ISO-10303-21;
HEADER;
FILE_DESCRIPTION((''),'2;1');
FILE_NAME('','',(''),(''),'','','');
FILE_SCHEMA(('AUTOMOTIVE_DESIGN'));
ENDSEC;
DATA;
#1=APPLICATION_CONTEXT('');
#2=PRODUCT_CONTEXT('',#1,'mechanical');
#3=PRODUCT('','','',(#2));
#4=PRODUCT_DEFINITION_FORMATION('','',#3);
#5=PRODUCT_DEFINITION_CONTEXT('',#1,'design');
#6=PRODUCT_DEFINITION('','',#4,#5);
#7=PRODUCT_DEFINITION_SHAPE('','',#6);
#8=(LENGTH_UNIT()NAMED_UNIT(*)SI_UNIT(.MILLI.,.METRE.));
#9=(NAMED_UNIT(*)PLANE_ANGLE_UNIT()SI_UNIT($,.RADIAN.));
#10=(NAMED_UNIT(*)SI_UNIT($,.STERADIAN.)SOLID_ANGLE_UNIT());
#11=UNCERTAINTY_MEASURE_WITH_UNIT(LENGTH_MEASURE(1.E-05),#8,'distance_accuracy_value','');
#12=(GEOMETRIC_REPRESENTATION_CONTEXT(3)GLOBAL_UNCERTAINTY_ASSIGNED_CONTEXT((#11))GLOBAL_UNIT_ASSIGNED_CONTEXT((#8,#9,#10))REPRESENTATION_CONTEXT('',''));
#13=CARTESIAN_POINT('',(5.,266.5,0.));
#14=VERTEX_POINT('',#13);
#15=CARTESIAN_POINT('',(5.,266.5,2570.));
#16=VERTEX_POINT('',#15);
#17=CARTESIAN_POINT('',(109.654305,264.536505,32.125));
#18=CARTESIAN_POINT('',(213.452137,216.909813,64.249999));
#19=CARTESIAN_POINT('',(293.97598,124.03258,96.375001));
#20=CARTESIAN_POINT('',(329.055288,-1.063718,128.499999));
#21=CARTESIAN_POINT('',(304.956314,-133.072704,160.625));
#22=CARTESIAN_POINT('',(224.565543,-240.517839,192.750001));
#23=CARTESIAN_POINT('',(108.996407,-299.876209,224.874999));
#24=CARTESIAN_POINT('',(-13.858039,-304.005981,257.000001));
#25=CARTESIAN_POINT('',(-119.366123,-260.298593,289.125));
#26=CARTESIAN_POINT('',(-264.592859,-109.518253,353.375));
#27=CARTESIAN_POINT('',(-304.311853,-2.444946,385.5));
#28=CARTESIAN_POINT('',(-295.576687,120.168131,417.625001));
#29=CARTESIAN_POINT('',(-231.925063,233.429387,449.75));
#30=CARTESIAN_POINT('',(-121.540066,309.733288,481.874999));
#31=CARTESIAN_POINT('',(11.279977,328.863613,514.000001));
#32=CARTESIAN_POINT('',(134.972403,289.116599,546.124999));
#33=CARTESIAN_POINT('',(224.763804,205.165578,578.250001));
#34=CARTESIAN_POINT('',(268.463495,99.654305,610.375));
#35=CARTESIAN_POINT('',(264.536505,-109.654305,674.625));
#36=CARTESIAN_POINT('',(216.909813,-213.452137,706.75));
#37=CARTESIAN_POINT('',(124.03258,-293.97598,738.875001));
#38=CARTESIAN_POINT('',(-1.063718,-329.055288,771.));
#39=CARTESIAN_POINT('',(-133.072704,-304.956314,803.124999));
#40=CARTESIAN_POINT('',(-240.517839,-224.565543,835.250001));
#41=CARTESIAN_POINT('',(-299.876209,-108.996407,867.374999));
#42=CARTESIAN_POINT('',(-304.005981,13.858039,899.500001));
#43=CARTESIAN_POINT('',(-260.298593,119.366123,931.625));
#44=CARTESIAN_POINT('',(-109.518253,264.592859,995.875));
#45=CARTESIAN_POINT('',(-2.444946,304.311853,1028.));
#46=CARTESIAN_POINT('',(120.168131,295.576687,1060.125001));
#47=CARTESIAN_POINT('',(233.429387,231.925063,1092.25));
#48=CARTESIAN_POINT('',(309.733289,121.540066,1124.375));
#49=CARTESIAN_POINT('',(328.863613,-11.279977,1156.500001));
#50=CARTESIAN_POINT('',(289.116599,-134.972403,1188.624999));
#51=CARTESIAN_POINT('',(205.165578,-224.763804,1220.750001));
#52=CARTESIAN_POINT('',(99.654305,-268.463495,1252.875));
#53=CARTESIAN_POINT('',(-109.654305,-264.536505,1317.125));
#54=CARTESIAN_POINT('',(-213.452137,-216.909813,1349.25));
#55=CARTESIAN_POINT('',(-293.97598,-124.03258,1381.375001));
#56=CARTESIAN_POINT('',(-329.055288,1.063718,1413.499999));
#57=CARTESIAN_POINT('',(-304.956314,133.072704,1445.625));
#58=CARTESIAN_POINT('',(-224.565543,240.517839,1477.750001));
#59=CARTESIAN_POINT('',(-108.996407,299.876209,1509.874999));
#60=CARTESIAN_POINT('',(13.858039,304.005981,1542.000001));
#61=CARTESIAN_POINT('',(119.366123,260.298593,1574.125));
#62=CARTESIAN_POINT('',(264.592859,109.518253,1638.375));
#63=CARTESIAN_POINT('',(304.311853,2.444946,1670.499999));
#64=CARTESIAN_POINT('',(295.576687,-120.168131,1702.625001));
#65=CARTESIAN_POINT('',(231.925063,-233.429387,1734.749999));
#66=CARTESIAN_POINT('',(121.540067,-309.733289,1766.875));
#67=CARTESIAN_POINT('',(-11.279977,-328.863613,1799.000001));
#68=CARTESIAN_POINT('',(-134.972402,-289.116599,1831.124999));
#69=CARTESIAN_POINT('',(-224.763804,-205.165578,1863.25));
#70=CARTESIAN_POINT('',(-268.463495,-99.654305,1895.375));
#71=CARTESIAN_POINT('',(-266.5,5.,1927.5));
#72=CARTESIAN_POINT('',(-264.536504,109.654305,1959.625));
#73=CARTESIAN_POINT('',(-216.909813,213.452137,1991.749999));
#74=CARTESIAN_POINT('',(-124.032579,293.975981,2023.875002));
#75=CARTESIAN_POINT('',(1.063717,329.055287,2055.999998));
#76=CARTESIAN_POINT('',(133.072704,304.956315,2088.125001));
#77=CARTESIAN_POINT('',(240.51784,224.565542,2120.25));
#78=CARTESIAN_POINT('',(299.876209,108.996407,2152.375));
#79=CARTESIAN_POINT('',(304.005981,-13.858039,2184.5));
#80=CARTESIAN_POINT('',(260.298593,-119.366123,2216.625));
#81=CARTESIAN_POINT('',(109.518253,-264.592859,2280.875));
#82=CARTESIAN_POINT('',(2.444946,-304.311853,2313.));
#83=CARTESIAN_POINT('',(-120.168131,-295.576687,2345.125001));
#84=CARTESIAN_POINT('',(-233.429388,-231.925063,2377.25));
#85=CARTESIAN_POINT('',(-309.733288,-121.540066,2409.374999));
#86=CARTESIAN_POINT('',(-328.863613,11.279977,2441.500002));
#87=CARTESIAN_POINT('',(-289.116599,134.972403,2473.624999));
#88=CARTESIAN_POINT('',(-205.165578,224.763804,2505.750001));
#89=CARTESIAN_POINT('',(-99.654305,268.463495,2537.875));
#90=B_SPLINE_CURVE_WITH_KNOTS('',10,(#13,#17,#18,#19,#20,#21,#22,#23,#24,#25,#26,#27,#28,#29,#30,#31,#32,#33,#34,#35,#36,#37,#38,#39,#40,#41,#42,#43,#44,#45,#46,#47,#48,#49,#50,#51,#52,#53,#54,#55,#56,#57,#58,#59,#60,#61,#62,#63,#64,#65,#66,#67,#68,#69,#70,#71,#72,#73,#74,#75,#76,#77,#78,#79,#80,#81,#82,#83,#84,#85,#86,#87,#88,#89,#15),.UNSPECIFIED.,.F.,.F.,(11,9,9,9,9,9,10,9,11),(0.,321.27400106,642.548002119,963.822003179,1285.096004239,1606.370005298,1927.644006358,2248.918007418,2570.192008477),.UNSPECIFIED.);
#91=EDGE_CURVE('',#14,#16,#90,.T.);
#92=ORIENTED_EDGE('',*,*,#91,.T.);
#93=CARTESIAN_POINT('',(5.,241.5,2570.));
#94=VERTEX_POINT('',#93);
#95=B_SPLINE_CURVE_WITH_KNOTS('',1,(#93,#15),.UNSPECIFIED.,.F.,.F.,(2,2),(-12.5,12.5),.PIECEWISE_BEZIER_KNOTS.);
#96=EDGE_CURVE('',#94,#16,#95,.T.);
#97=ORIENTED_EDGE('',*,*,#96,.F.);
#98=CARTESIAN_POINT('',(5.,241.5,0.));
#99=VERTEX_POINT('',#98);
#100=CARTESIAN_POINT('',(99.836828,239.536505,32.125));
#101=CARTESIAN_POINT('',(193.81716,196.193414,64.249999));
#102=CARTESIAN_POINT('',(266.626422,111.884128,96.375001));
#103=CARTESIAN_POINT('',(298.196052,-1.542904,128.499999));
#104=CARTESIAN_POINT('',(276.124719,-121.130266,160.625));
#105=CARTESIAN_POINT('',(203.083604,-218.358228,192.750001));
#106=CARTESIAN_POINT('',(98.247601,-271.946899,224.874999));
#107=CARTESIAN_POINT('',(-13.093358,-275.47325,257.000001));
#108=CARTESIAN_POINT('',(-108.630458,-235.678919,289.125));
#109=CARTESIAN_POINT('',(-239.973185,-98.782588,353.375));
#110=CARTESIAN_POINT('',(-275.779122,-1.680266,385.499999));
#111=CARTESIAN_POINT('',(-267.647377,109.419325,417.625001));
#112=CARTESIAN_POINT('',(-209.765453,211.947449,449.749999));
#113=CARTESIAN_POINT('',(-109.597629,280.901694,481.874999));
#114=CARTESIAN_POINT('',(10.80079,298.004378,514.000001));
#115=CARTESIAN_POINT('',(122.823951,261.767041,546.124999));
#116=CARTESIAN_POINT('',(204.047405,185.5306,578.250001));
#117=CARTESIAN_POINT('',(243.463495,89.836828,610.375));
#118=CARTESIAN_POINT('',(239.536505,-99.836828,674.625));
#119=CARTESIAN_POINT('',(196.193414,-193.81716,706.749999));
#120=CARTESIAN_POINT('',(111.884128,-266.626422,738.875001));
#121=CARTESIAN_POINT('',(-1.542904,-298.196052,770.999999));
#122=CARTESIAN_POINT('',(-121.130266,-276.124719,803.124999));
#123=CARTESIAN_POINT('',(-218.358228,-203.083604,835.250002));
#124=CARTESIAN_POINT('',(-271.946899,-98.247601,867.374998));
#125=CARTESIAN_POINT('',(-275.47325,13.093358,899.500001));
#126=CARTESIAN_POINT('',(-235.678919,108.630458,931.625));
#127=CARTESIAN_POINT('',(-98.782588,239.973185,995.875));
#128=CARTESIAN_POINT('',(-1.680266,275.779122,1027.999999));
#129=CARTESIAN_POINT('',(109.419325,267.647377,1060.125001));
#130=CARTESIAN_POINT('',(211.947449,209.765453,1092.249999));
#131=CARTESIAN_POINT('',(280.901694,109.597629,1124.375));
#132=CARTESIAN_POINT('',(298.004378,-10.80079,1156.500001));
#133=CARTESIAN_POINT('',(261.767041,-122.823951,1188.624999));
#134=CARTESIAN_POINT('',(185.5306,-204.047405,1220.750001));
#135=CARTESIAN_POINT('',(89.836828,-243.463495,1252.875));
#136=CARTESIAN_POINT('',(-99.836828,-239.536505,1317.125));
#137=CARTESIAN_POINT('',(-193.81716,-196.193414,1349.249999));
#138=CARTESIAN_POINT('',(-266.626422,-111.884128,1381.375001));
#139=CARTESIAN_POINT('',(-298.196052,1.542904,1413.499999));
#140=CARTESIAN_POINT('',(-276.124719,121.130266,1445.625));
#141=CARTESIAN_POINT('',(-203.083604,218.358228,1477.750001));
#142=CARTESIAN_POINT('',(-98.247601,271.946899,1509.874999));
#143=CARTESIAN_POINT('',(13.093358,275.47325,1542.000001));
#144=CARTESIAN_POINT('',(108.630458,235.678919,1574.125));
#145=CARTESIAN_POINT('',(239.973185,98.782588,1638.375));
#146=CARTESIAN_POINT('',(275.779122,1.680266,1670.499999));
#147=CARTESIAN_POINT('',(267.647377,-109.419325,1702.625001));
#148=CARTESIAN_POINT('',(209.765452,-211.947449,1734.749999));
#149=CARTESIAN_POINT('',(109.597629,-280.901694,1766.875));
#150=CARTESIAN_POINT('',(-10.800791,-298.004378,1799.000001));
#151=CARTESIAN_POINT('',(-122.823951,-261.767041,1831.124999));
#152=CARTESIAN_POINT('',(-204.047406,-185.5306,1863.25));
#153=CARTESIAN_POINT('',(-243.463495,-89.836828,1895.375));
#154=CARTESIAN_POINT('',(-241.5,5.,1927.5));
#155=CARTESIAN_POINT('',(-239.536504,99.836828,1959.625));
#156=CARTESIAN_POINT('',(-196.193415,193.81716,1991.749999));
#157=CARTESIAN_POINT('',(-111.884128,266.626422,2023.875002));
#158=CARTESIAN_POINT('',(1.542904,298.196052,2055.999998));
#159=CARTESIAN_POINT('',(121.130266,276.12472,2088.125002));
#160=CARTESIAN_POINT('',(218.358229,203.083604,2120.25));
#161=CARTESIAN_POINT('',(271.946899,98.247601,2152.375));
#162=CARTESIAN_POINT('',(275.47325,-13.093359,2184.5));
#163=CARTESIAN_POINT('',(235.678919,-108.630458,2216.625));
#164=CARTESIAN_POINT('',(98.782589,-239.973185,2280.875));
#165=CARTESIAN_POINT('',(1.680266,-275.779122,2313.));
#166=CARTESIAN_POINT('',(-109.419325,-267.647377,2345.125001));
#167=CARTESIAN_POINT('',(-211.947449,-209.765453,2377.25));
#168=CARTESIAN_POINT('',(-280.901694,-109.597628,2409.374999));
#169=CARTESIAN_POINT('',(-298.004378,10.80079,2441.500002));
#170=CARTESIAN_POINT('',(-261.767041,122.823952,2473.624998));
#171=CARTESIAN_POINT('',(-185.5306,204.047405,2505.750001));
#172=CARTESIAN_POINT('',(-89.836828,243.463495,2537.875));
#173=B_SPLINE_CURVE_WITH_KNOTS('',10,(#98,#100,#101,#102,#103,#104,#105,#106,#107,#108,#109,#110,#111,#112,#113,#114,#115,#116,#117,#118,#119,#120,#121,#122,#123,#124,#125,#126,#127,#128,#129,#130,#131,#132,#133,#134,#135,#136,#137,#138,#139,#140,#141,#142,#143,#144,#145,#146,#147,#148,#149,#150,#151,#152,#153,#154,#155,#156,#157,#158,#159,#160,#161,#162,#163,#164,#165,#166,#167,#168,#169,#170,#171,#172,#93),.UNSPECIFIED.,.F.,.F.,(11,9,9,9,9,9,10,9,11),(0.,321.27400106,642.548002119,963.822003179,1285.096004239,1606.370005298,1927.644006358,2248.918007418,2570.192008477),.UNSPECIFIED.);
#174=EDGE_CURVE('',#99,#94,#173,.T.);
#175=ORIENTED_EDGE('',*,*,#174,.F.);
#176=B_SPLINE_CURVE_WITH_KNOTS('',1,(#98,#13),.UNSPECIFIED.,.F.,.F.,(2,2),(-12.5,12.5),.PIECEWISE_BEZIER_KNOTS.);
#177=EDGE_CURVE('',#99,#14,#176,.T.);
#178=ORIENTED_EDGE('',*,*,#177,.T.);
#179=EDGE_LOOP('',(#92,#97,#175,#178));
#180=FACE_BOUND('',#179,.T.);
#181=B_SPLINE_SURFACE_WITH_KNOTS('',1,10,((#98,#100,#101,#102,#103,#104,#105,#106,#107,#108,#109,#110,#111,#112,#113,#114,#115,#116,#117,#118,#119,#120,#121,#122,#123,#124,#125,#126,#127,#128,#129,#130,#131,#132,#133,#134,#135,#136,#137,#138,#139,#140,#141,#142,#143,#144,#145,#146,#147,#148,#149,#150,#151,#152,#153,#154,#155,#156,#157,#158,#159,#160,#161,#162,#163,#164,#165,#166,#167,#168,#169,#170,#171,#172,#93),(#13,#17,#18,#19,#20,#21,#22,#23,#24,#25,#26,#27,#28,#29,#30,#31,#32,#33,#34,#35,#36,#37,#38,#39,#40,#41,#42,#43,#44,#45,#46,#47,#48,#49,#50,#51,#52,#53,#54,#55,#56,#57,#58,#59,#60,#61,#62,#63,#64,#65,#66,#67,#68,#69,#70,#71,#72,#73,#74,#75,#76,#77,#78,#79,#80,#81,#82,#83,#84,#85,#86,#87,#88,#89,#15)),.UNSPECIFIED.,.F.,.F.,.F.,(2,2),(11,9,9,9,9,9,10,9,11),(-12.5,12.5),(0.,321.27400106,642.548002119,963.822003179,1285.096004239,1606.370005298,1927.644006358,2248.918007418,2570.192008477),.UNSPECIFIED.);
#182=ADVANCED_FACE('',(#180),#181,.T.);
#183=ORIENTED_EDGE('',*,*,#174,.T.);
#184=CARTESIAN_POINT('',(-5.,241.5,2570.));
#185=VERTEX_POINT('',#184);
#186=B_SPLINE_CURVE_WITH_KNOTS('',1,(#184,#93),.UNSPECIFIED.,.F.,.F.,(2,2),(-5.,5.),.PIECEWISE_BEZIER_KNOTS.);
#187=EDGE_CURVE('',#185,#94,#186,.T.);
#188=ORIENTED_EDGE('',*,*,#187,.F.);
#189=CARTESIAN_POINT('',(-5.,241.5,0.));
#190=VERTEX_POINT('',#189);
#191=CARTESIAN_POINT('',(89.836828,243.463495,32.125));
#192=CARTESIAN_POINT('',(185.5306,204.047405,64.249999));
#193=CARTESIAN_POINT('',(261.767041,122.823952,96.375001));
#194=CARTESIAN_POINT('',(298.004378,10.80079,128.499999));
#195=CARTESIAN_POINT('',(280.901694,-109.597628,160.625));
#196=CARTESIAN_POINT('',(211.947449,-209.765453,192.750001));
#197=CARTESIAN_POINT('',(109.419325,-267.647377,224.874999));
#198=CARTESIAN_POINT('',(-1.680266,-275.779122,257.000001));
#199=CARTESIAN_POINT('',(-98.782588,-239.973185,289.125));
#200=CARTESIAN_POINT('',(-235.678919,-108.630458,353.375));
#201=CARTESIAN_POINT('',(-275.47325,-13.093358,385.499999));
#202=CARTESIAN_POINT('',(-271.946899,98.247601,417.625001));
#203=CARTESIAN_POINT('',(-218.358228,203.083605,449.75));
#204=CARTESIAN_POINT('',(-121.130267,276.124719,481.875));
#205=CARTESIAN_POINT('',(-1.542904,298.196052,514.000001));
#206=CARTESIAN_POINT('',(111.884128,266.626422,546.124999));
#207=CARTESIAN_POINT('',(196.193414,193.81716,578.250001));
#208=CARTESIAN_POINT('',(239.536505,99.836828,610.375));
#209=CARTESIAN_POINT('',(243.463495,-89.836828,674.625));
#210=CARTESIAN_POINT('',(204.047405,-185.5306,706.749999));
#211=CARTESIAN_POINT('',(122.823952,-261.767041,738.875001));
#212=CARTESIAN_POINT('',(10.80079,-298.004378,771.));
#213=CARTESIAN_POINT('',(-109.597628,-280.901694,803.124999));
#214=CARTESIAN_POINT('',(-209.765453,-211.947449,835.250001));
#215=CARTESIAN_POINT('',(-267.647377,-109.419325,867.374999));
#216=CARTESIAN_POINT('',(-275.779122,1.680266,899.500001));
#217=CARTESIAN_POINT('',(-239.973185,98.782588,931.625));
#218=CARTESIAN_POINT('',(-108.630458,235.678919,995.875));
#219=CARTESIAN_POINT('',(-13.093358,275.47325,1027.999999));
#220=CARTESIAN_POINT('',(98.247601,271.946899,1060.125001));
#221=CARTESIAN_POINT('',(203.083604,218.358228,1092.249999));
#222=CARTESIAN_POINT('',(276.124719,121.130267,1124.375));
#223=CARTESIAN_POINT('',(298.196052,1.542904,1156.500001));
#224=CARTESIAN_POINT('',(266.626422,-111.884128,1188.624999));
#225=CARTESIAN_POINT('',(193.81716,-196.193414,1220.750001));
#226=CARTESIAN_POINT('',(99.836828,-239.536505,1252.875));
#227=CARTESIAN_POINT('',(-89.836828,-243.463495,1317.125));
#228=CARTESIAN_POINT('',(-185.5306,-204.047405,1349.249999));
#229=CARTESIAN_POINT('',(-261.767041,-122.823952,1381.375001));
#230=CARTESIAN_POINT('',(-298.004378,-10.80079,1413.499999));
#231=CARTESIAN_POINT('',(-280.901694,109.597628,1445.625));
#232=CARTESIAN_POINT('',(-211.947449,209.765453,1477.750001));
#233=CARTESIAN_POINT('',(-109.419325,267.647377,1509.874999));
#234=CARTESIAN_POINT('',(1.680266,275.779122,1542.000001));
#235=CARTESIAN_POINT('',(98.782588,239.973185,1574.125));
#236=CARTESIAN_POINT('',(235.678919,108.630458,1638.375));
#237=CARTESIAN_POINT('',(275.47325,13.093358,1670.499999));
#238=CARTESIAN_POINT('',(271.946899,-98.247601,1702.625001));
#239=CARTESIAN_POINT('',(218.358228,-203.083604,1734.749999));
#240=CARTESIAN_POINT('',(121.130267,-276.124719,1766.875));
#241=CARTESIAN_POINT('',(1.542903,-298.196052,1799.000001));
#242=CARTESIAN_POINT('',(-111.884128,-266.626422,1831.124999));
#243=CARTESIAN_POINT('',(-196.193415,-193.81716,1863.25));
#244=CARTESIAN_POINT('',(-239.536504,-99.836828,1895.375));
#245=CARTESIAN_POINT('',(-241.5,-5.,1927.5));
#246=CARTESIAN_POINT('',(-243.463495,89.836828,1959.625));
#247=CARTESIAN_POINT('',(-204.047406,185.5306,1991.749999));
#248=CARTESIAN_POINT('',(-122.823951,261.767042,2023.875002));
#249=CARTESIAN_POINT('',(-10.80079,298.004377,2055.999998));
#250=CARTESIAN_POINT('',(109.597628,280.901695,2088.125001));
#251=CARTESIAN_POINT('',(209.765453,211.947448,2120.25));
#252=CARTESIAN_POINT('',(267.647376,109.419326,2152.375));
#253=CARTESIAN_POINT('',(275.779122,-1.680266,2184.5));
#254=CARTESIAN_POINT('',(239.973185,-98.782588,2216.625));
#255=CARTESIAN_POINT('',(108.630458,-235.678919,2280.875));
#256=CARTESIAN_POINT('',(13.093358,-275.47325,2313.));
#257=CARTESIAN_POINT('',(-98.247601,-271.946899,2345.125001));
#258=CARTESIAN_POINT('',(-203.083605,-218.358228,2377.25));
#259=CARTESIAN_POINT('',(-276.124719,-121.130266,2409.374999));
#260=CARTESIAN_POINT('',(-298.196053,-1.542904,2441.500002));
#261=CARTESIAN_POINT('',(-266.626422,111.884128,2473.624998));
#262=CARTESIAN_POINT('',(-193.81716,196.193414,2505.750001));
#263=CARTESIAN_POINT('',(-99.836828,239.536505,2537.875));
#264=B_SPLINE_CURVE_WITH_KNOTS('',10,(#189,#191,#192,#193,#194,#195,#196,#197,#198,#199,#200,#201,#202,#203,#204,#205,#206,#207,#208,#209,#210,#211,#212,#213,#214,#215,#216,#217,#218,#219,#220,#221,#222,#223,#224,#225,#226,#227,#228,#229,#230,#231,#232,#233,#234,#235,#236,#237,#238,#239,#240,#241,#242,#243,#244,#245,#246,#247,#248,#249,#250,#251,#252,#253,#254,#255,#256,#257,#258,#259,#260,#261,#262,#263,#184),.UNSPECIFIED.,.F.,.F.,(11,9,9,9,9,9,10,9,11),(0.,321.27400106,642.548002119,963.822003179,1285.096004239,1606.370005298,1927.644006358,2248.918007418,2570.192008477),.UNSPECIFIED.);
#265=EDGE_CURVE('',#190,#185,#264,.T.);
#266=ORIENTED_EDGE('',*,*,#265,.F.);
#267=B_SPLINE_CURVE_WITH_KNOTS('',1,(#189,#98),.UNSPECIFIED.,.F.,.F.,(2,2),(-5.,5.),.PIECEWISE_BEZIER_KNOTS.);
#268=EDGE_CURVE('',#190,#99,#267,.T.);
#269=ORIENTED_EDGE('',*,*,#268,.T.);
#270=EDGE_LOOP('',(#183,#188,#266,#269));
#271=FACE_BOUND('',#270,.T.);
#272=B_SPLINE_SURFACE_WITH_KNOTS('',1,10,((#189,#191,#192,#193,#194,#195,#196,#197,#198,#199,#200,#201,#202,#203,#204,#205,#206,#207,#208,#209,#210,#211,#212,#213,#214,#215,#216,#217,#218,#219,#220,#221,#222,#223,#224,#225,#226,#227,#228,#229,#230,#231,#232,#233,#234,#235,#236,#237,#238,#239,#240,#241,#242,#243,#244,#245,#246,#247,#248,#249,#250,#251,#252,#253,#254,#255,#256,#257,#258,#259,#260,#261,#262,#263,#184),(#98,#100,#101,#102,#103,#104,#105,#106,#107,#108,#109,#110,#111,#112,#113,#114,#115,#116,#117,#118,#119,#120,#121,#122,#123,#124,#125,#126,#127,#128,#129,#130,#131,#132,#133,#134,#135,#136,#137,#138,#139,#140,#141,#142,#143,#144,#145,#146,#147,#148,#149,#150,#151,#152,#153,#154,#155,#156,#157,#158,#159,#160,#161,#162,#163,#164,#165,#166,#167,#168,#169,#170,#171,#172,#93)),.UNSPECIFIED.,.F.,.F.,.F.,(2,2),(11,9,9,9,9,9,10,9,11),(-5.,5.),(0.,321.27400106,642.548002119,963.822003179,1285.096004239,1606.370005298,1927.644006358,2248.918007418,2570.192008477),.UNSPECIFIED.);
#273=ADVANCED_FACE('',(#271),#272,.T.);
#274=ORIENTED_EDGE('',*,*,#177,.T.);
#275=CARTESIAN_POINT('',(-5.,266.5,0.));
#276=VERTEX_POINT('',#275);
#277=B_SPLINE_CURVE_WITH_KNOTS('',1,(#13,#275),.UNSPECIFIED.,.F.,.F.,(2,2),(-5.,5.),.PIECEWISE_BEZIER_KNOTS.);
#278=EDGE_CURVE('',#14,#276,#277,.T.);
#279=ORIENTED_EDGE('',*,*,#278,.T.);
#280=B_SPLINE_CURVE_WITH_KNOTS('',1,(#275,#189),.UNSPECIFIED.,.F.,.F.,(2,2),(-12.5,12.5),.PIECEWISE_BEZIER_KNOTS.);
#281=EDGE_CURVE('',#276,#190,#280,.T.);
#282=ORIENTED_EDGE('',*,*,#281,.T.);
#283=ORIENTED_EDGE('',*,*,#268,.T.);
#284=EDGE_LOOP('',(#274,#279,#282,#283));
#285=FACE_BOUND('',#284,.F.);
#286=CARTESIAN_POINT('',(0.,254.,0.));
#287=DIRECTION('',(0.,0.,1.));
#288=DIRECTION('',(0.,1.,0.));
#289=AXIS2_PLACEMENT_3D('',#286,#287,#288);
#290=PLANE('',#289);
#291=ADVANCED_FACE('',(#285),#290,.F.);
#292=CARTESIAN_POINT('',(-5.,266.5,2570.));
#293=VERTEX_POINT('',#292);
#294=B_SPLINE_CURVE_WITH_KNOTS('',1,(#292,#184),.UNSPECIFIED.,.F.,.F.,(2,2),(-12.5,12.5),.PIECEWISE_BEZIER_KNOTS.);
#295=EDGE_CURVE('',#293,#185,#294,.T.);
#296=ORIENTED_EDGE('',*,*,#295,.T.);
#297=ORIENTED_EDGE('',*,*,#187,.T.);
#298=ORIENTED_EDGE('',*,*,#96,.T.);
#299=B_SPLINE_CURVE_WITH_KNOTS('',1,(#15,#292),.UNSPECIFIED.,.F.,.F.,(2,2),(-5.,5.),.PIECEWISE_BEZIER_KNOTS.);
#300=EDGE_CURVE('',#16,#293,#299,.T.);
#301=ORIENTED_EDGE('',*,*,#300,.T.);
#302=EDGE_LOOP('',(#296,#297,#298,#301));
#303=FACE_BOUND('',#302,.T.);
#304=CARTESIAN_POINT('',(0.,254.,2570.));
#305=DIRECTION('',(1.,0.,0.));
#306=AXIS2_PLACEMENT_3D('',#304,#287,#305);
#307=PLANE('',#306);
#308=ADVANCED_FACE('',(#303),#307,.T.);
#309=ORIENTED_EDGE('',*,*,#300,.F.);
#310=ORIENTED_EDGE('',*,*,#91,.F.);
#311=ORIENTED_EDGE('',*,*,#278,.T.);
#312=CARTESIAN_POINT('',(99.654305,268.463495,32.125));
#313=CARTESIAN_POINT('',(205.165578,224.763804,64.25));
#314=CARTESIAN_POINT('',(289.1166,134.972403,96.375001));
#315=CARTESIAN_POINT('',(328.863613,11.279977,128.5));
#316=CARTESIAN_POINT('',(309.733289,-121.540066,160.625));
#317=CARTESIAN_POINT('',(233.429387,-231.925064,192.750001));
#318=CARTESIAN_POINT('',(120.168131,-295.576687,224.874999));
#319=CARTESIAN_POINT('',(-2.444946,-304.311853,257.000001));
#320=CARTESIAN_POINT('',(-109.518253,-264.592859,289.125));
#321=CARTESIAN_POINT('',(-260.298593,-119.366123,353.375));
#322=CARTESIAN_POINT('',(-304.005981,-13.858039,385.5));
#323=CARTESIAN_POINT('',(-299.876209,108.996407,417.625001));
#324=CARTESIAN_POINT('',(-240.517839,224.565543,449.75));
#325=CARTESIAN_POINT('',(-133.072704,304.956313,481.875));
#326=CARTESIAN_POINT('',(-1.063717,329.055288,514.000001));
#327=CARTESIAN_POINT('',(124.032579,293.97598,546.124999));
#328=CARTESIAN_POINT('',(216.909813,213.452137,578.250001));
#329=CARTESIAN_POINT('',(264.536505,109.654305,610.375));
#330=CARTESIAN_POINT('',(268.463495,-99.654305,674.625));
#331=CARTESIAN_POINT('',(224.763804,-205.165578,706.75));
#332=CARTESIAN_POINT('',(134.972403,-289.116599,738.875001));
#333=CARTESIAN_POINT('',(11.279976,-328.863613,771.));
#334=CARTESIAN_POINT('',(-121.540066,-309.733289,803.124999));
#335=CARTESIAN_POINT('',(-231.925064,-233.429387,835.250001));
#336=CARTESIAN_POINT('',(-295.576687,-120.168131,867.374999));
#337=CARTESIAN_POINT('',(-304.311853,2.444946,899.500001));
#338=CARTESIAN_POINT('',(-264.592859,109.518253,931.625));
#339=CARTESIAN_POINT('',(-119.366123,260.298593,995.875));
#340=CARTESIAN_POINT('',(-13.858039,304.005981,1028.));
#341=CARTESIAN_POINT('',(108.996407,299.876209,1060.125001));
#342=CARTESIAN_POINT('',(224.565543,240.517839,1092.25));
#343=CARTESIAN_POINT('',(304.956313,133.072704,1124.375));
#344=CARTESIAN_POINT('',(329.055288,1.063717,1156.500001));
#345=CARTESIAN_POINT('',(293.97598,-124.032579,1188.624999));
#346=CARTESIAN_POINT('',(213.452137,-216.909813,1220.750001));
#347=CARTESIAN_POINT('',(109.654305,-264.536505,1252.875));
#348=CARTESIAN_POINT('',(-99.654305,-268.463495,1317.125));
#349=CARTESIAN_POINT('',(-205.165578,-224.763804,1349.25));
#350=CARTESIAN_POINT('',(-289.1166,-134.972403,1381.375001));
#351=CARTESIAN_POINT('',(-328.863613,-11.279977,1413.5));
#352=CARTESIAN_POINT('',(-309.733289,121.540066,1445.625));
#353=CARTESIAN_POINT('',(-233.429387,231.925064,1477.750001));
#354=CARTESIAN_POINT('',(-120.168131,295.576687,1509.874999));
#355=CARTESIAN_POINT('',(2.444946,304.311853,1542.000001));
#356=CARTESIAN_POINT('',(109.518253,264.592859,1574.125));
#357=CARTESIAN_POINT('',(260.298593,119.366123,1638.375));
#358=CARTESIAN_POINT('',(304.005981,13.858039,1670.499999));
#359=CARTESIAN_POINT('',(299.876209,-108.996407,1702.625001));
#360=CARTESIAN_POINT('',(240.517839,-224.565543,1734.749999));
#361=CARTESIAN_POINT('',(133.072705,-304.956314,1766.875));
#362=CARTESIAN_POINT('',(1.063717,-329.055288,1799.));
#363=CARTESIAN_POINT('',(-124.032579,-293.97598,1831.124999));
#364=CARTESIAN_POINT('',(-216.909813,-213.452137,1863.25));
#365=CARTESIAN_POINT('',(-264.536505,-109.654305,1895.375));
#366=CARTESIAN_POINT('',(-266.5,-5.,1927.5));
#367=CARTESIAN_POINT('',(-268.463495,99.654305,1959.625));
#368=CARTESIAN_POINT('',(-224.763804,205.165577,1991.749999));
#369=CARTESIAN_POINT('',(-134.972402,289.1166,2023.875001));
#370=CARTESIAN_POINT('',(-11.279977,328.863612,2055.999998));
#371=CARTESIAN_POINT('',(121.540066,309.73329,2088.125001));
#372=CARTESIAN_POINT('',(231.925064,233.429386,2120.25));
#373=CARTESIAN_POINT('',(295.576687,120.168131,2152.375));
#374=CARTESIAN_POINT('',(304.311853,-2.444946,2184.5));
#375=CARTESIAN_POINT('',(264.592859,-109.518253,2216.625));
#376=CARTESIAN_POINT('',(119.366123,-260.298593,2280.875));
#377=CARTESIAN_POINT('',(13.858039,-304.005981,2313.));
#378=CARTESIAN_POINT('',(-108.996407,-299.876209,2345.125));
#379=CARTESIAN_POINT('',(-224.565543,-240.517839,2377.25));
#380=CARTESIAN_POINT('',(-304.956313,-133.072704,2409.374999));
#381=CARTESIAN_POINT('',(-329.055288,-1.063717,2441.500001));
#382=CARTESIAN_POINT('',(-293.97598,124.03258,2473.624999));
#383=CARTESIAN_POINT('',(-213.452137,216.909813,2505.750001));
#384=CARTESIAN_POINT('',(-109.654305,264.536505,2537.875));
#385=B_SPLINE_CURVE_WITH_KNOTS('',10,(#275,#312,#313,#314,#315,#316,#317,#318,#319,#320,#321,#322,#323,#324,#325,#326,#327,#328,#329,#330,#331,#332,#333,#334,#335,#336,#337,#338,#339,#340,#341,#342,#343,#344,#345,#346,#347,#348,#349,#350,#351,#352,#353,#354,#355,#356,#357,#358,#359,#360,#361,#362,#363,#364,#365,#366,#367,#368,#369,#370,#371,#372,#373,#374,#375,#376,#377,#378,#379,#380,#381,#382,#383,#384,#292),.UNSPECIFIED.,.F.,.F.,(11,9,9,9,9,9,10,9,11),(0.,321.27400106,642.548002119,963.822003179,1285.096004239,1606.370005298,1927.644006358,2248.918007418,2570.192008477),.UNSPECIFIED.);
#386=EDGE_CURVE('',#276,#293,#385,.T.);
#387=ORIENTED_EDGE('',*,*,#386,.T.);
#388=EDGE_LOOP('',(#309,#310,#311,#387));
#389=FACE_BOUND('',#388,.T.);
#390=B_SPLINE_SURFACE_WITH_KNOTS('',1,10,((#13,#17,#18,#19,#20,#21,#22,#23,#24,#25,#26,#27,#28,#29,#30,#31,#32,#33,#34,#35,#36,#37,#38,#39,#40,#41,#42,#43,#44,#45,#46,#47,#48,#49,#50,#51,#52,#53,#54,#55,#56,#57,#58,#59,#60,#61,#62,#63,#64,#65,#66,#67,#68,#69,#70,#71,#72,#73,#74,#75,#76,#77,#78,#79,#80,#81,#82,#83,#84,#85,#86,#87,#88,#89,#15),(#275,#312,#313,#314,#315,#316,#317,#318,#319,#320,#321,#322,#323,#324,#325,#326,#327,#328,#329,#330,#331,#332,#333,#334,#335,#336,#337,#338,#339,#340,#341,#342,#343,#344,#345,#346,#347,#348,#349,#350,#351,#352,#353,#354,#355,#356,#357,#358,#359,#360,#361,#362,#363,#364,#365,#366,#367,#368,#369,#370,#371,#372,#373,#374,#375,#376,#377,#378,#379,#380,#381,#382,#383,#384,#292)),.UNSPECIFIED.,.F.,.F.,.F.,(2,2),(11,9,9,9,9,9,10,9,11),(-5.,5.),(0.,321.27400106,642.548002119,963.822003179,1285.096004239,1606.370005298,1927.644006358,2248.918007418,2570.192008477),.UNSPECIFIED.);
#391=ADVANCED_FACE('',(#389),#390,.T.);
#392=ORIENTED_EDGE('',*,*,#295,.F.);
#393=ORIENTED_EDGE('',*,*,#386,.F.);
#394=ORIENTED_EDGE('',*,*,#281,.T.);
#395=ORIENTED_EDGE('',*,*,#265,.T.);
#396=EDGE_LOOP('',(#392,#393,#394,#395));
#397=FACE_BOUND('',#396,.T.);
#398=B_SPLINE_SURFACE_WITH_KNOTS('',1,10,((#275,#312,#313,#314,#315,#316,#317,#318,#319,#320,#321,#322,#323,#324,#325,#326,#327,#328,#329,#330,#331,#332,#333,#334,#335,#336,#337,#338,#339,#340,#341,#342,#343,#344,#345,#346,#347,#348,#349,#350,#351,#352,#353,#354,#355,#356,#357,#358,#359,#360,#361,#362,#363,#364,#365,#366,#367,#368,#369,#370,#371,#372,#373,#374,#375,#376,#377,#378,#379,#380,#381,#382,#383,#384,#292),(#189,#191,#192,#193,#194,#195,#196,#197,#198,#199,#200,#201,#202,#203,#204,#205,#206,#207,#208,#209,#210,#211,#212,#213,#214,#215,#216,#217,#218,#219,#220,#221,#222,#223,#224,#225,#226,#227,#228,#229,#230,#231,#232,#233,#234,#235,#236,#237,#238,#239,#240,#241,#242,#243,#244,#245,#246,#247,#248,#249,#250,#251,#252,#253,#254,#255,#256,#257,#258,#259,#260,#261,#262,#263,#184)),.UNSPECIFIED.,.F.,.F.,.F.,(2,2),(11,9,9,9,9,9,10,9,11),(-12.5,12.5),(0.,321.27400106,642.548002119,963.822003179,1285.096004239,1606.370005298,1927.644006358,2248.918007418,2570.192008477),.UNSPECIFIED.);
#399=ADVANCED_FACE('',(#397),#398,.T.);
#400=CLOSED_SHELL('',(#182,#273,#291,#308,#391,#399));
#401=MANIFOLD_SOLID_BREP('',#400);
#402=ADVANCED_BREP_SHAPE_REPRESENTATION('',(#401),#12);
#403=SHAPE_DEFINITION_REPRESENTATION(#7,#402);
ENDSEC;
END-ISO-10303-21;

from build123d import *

# Parameters (mm, degrees)
SWEEP1_PITCH       = 514
SWEEP1_HEIGHT      = 2570
SWEEP1_RADIUS      = 254
SWEEP1_START_ANGLE = 135
SKETCH2_W          = 10
SKETCH2_H          = 25


with BuildPart() as part:
    # Sweep1: sweep along a helix
    with BuildLine() as sweep1_path:
        add(Helix(SWEEP1_PITCH, SWEEP1_HEIGHT, SWEEP1_RADIUS, center=(0, 0, 0), direction=(0, 0, 1), lefthand=True, mode=Mode.PRIVATE).rotate(Axis((0, 0, 0), (0, 0, 1)), SWEEP1_START_ANGLE))
    # Sketch2 → Sweep1 (sweep)
    with BuildSketch(Plane.XY):
        with Locations((0, 254)):
            Rectangle(SKETCH2_W, SKETCH2_H)
    sweep(path=sweep1_path.line, is_frenet=True)


solid = part.part
